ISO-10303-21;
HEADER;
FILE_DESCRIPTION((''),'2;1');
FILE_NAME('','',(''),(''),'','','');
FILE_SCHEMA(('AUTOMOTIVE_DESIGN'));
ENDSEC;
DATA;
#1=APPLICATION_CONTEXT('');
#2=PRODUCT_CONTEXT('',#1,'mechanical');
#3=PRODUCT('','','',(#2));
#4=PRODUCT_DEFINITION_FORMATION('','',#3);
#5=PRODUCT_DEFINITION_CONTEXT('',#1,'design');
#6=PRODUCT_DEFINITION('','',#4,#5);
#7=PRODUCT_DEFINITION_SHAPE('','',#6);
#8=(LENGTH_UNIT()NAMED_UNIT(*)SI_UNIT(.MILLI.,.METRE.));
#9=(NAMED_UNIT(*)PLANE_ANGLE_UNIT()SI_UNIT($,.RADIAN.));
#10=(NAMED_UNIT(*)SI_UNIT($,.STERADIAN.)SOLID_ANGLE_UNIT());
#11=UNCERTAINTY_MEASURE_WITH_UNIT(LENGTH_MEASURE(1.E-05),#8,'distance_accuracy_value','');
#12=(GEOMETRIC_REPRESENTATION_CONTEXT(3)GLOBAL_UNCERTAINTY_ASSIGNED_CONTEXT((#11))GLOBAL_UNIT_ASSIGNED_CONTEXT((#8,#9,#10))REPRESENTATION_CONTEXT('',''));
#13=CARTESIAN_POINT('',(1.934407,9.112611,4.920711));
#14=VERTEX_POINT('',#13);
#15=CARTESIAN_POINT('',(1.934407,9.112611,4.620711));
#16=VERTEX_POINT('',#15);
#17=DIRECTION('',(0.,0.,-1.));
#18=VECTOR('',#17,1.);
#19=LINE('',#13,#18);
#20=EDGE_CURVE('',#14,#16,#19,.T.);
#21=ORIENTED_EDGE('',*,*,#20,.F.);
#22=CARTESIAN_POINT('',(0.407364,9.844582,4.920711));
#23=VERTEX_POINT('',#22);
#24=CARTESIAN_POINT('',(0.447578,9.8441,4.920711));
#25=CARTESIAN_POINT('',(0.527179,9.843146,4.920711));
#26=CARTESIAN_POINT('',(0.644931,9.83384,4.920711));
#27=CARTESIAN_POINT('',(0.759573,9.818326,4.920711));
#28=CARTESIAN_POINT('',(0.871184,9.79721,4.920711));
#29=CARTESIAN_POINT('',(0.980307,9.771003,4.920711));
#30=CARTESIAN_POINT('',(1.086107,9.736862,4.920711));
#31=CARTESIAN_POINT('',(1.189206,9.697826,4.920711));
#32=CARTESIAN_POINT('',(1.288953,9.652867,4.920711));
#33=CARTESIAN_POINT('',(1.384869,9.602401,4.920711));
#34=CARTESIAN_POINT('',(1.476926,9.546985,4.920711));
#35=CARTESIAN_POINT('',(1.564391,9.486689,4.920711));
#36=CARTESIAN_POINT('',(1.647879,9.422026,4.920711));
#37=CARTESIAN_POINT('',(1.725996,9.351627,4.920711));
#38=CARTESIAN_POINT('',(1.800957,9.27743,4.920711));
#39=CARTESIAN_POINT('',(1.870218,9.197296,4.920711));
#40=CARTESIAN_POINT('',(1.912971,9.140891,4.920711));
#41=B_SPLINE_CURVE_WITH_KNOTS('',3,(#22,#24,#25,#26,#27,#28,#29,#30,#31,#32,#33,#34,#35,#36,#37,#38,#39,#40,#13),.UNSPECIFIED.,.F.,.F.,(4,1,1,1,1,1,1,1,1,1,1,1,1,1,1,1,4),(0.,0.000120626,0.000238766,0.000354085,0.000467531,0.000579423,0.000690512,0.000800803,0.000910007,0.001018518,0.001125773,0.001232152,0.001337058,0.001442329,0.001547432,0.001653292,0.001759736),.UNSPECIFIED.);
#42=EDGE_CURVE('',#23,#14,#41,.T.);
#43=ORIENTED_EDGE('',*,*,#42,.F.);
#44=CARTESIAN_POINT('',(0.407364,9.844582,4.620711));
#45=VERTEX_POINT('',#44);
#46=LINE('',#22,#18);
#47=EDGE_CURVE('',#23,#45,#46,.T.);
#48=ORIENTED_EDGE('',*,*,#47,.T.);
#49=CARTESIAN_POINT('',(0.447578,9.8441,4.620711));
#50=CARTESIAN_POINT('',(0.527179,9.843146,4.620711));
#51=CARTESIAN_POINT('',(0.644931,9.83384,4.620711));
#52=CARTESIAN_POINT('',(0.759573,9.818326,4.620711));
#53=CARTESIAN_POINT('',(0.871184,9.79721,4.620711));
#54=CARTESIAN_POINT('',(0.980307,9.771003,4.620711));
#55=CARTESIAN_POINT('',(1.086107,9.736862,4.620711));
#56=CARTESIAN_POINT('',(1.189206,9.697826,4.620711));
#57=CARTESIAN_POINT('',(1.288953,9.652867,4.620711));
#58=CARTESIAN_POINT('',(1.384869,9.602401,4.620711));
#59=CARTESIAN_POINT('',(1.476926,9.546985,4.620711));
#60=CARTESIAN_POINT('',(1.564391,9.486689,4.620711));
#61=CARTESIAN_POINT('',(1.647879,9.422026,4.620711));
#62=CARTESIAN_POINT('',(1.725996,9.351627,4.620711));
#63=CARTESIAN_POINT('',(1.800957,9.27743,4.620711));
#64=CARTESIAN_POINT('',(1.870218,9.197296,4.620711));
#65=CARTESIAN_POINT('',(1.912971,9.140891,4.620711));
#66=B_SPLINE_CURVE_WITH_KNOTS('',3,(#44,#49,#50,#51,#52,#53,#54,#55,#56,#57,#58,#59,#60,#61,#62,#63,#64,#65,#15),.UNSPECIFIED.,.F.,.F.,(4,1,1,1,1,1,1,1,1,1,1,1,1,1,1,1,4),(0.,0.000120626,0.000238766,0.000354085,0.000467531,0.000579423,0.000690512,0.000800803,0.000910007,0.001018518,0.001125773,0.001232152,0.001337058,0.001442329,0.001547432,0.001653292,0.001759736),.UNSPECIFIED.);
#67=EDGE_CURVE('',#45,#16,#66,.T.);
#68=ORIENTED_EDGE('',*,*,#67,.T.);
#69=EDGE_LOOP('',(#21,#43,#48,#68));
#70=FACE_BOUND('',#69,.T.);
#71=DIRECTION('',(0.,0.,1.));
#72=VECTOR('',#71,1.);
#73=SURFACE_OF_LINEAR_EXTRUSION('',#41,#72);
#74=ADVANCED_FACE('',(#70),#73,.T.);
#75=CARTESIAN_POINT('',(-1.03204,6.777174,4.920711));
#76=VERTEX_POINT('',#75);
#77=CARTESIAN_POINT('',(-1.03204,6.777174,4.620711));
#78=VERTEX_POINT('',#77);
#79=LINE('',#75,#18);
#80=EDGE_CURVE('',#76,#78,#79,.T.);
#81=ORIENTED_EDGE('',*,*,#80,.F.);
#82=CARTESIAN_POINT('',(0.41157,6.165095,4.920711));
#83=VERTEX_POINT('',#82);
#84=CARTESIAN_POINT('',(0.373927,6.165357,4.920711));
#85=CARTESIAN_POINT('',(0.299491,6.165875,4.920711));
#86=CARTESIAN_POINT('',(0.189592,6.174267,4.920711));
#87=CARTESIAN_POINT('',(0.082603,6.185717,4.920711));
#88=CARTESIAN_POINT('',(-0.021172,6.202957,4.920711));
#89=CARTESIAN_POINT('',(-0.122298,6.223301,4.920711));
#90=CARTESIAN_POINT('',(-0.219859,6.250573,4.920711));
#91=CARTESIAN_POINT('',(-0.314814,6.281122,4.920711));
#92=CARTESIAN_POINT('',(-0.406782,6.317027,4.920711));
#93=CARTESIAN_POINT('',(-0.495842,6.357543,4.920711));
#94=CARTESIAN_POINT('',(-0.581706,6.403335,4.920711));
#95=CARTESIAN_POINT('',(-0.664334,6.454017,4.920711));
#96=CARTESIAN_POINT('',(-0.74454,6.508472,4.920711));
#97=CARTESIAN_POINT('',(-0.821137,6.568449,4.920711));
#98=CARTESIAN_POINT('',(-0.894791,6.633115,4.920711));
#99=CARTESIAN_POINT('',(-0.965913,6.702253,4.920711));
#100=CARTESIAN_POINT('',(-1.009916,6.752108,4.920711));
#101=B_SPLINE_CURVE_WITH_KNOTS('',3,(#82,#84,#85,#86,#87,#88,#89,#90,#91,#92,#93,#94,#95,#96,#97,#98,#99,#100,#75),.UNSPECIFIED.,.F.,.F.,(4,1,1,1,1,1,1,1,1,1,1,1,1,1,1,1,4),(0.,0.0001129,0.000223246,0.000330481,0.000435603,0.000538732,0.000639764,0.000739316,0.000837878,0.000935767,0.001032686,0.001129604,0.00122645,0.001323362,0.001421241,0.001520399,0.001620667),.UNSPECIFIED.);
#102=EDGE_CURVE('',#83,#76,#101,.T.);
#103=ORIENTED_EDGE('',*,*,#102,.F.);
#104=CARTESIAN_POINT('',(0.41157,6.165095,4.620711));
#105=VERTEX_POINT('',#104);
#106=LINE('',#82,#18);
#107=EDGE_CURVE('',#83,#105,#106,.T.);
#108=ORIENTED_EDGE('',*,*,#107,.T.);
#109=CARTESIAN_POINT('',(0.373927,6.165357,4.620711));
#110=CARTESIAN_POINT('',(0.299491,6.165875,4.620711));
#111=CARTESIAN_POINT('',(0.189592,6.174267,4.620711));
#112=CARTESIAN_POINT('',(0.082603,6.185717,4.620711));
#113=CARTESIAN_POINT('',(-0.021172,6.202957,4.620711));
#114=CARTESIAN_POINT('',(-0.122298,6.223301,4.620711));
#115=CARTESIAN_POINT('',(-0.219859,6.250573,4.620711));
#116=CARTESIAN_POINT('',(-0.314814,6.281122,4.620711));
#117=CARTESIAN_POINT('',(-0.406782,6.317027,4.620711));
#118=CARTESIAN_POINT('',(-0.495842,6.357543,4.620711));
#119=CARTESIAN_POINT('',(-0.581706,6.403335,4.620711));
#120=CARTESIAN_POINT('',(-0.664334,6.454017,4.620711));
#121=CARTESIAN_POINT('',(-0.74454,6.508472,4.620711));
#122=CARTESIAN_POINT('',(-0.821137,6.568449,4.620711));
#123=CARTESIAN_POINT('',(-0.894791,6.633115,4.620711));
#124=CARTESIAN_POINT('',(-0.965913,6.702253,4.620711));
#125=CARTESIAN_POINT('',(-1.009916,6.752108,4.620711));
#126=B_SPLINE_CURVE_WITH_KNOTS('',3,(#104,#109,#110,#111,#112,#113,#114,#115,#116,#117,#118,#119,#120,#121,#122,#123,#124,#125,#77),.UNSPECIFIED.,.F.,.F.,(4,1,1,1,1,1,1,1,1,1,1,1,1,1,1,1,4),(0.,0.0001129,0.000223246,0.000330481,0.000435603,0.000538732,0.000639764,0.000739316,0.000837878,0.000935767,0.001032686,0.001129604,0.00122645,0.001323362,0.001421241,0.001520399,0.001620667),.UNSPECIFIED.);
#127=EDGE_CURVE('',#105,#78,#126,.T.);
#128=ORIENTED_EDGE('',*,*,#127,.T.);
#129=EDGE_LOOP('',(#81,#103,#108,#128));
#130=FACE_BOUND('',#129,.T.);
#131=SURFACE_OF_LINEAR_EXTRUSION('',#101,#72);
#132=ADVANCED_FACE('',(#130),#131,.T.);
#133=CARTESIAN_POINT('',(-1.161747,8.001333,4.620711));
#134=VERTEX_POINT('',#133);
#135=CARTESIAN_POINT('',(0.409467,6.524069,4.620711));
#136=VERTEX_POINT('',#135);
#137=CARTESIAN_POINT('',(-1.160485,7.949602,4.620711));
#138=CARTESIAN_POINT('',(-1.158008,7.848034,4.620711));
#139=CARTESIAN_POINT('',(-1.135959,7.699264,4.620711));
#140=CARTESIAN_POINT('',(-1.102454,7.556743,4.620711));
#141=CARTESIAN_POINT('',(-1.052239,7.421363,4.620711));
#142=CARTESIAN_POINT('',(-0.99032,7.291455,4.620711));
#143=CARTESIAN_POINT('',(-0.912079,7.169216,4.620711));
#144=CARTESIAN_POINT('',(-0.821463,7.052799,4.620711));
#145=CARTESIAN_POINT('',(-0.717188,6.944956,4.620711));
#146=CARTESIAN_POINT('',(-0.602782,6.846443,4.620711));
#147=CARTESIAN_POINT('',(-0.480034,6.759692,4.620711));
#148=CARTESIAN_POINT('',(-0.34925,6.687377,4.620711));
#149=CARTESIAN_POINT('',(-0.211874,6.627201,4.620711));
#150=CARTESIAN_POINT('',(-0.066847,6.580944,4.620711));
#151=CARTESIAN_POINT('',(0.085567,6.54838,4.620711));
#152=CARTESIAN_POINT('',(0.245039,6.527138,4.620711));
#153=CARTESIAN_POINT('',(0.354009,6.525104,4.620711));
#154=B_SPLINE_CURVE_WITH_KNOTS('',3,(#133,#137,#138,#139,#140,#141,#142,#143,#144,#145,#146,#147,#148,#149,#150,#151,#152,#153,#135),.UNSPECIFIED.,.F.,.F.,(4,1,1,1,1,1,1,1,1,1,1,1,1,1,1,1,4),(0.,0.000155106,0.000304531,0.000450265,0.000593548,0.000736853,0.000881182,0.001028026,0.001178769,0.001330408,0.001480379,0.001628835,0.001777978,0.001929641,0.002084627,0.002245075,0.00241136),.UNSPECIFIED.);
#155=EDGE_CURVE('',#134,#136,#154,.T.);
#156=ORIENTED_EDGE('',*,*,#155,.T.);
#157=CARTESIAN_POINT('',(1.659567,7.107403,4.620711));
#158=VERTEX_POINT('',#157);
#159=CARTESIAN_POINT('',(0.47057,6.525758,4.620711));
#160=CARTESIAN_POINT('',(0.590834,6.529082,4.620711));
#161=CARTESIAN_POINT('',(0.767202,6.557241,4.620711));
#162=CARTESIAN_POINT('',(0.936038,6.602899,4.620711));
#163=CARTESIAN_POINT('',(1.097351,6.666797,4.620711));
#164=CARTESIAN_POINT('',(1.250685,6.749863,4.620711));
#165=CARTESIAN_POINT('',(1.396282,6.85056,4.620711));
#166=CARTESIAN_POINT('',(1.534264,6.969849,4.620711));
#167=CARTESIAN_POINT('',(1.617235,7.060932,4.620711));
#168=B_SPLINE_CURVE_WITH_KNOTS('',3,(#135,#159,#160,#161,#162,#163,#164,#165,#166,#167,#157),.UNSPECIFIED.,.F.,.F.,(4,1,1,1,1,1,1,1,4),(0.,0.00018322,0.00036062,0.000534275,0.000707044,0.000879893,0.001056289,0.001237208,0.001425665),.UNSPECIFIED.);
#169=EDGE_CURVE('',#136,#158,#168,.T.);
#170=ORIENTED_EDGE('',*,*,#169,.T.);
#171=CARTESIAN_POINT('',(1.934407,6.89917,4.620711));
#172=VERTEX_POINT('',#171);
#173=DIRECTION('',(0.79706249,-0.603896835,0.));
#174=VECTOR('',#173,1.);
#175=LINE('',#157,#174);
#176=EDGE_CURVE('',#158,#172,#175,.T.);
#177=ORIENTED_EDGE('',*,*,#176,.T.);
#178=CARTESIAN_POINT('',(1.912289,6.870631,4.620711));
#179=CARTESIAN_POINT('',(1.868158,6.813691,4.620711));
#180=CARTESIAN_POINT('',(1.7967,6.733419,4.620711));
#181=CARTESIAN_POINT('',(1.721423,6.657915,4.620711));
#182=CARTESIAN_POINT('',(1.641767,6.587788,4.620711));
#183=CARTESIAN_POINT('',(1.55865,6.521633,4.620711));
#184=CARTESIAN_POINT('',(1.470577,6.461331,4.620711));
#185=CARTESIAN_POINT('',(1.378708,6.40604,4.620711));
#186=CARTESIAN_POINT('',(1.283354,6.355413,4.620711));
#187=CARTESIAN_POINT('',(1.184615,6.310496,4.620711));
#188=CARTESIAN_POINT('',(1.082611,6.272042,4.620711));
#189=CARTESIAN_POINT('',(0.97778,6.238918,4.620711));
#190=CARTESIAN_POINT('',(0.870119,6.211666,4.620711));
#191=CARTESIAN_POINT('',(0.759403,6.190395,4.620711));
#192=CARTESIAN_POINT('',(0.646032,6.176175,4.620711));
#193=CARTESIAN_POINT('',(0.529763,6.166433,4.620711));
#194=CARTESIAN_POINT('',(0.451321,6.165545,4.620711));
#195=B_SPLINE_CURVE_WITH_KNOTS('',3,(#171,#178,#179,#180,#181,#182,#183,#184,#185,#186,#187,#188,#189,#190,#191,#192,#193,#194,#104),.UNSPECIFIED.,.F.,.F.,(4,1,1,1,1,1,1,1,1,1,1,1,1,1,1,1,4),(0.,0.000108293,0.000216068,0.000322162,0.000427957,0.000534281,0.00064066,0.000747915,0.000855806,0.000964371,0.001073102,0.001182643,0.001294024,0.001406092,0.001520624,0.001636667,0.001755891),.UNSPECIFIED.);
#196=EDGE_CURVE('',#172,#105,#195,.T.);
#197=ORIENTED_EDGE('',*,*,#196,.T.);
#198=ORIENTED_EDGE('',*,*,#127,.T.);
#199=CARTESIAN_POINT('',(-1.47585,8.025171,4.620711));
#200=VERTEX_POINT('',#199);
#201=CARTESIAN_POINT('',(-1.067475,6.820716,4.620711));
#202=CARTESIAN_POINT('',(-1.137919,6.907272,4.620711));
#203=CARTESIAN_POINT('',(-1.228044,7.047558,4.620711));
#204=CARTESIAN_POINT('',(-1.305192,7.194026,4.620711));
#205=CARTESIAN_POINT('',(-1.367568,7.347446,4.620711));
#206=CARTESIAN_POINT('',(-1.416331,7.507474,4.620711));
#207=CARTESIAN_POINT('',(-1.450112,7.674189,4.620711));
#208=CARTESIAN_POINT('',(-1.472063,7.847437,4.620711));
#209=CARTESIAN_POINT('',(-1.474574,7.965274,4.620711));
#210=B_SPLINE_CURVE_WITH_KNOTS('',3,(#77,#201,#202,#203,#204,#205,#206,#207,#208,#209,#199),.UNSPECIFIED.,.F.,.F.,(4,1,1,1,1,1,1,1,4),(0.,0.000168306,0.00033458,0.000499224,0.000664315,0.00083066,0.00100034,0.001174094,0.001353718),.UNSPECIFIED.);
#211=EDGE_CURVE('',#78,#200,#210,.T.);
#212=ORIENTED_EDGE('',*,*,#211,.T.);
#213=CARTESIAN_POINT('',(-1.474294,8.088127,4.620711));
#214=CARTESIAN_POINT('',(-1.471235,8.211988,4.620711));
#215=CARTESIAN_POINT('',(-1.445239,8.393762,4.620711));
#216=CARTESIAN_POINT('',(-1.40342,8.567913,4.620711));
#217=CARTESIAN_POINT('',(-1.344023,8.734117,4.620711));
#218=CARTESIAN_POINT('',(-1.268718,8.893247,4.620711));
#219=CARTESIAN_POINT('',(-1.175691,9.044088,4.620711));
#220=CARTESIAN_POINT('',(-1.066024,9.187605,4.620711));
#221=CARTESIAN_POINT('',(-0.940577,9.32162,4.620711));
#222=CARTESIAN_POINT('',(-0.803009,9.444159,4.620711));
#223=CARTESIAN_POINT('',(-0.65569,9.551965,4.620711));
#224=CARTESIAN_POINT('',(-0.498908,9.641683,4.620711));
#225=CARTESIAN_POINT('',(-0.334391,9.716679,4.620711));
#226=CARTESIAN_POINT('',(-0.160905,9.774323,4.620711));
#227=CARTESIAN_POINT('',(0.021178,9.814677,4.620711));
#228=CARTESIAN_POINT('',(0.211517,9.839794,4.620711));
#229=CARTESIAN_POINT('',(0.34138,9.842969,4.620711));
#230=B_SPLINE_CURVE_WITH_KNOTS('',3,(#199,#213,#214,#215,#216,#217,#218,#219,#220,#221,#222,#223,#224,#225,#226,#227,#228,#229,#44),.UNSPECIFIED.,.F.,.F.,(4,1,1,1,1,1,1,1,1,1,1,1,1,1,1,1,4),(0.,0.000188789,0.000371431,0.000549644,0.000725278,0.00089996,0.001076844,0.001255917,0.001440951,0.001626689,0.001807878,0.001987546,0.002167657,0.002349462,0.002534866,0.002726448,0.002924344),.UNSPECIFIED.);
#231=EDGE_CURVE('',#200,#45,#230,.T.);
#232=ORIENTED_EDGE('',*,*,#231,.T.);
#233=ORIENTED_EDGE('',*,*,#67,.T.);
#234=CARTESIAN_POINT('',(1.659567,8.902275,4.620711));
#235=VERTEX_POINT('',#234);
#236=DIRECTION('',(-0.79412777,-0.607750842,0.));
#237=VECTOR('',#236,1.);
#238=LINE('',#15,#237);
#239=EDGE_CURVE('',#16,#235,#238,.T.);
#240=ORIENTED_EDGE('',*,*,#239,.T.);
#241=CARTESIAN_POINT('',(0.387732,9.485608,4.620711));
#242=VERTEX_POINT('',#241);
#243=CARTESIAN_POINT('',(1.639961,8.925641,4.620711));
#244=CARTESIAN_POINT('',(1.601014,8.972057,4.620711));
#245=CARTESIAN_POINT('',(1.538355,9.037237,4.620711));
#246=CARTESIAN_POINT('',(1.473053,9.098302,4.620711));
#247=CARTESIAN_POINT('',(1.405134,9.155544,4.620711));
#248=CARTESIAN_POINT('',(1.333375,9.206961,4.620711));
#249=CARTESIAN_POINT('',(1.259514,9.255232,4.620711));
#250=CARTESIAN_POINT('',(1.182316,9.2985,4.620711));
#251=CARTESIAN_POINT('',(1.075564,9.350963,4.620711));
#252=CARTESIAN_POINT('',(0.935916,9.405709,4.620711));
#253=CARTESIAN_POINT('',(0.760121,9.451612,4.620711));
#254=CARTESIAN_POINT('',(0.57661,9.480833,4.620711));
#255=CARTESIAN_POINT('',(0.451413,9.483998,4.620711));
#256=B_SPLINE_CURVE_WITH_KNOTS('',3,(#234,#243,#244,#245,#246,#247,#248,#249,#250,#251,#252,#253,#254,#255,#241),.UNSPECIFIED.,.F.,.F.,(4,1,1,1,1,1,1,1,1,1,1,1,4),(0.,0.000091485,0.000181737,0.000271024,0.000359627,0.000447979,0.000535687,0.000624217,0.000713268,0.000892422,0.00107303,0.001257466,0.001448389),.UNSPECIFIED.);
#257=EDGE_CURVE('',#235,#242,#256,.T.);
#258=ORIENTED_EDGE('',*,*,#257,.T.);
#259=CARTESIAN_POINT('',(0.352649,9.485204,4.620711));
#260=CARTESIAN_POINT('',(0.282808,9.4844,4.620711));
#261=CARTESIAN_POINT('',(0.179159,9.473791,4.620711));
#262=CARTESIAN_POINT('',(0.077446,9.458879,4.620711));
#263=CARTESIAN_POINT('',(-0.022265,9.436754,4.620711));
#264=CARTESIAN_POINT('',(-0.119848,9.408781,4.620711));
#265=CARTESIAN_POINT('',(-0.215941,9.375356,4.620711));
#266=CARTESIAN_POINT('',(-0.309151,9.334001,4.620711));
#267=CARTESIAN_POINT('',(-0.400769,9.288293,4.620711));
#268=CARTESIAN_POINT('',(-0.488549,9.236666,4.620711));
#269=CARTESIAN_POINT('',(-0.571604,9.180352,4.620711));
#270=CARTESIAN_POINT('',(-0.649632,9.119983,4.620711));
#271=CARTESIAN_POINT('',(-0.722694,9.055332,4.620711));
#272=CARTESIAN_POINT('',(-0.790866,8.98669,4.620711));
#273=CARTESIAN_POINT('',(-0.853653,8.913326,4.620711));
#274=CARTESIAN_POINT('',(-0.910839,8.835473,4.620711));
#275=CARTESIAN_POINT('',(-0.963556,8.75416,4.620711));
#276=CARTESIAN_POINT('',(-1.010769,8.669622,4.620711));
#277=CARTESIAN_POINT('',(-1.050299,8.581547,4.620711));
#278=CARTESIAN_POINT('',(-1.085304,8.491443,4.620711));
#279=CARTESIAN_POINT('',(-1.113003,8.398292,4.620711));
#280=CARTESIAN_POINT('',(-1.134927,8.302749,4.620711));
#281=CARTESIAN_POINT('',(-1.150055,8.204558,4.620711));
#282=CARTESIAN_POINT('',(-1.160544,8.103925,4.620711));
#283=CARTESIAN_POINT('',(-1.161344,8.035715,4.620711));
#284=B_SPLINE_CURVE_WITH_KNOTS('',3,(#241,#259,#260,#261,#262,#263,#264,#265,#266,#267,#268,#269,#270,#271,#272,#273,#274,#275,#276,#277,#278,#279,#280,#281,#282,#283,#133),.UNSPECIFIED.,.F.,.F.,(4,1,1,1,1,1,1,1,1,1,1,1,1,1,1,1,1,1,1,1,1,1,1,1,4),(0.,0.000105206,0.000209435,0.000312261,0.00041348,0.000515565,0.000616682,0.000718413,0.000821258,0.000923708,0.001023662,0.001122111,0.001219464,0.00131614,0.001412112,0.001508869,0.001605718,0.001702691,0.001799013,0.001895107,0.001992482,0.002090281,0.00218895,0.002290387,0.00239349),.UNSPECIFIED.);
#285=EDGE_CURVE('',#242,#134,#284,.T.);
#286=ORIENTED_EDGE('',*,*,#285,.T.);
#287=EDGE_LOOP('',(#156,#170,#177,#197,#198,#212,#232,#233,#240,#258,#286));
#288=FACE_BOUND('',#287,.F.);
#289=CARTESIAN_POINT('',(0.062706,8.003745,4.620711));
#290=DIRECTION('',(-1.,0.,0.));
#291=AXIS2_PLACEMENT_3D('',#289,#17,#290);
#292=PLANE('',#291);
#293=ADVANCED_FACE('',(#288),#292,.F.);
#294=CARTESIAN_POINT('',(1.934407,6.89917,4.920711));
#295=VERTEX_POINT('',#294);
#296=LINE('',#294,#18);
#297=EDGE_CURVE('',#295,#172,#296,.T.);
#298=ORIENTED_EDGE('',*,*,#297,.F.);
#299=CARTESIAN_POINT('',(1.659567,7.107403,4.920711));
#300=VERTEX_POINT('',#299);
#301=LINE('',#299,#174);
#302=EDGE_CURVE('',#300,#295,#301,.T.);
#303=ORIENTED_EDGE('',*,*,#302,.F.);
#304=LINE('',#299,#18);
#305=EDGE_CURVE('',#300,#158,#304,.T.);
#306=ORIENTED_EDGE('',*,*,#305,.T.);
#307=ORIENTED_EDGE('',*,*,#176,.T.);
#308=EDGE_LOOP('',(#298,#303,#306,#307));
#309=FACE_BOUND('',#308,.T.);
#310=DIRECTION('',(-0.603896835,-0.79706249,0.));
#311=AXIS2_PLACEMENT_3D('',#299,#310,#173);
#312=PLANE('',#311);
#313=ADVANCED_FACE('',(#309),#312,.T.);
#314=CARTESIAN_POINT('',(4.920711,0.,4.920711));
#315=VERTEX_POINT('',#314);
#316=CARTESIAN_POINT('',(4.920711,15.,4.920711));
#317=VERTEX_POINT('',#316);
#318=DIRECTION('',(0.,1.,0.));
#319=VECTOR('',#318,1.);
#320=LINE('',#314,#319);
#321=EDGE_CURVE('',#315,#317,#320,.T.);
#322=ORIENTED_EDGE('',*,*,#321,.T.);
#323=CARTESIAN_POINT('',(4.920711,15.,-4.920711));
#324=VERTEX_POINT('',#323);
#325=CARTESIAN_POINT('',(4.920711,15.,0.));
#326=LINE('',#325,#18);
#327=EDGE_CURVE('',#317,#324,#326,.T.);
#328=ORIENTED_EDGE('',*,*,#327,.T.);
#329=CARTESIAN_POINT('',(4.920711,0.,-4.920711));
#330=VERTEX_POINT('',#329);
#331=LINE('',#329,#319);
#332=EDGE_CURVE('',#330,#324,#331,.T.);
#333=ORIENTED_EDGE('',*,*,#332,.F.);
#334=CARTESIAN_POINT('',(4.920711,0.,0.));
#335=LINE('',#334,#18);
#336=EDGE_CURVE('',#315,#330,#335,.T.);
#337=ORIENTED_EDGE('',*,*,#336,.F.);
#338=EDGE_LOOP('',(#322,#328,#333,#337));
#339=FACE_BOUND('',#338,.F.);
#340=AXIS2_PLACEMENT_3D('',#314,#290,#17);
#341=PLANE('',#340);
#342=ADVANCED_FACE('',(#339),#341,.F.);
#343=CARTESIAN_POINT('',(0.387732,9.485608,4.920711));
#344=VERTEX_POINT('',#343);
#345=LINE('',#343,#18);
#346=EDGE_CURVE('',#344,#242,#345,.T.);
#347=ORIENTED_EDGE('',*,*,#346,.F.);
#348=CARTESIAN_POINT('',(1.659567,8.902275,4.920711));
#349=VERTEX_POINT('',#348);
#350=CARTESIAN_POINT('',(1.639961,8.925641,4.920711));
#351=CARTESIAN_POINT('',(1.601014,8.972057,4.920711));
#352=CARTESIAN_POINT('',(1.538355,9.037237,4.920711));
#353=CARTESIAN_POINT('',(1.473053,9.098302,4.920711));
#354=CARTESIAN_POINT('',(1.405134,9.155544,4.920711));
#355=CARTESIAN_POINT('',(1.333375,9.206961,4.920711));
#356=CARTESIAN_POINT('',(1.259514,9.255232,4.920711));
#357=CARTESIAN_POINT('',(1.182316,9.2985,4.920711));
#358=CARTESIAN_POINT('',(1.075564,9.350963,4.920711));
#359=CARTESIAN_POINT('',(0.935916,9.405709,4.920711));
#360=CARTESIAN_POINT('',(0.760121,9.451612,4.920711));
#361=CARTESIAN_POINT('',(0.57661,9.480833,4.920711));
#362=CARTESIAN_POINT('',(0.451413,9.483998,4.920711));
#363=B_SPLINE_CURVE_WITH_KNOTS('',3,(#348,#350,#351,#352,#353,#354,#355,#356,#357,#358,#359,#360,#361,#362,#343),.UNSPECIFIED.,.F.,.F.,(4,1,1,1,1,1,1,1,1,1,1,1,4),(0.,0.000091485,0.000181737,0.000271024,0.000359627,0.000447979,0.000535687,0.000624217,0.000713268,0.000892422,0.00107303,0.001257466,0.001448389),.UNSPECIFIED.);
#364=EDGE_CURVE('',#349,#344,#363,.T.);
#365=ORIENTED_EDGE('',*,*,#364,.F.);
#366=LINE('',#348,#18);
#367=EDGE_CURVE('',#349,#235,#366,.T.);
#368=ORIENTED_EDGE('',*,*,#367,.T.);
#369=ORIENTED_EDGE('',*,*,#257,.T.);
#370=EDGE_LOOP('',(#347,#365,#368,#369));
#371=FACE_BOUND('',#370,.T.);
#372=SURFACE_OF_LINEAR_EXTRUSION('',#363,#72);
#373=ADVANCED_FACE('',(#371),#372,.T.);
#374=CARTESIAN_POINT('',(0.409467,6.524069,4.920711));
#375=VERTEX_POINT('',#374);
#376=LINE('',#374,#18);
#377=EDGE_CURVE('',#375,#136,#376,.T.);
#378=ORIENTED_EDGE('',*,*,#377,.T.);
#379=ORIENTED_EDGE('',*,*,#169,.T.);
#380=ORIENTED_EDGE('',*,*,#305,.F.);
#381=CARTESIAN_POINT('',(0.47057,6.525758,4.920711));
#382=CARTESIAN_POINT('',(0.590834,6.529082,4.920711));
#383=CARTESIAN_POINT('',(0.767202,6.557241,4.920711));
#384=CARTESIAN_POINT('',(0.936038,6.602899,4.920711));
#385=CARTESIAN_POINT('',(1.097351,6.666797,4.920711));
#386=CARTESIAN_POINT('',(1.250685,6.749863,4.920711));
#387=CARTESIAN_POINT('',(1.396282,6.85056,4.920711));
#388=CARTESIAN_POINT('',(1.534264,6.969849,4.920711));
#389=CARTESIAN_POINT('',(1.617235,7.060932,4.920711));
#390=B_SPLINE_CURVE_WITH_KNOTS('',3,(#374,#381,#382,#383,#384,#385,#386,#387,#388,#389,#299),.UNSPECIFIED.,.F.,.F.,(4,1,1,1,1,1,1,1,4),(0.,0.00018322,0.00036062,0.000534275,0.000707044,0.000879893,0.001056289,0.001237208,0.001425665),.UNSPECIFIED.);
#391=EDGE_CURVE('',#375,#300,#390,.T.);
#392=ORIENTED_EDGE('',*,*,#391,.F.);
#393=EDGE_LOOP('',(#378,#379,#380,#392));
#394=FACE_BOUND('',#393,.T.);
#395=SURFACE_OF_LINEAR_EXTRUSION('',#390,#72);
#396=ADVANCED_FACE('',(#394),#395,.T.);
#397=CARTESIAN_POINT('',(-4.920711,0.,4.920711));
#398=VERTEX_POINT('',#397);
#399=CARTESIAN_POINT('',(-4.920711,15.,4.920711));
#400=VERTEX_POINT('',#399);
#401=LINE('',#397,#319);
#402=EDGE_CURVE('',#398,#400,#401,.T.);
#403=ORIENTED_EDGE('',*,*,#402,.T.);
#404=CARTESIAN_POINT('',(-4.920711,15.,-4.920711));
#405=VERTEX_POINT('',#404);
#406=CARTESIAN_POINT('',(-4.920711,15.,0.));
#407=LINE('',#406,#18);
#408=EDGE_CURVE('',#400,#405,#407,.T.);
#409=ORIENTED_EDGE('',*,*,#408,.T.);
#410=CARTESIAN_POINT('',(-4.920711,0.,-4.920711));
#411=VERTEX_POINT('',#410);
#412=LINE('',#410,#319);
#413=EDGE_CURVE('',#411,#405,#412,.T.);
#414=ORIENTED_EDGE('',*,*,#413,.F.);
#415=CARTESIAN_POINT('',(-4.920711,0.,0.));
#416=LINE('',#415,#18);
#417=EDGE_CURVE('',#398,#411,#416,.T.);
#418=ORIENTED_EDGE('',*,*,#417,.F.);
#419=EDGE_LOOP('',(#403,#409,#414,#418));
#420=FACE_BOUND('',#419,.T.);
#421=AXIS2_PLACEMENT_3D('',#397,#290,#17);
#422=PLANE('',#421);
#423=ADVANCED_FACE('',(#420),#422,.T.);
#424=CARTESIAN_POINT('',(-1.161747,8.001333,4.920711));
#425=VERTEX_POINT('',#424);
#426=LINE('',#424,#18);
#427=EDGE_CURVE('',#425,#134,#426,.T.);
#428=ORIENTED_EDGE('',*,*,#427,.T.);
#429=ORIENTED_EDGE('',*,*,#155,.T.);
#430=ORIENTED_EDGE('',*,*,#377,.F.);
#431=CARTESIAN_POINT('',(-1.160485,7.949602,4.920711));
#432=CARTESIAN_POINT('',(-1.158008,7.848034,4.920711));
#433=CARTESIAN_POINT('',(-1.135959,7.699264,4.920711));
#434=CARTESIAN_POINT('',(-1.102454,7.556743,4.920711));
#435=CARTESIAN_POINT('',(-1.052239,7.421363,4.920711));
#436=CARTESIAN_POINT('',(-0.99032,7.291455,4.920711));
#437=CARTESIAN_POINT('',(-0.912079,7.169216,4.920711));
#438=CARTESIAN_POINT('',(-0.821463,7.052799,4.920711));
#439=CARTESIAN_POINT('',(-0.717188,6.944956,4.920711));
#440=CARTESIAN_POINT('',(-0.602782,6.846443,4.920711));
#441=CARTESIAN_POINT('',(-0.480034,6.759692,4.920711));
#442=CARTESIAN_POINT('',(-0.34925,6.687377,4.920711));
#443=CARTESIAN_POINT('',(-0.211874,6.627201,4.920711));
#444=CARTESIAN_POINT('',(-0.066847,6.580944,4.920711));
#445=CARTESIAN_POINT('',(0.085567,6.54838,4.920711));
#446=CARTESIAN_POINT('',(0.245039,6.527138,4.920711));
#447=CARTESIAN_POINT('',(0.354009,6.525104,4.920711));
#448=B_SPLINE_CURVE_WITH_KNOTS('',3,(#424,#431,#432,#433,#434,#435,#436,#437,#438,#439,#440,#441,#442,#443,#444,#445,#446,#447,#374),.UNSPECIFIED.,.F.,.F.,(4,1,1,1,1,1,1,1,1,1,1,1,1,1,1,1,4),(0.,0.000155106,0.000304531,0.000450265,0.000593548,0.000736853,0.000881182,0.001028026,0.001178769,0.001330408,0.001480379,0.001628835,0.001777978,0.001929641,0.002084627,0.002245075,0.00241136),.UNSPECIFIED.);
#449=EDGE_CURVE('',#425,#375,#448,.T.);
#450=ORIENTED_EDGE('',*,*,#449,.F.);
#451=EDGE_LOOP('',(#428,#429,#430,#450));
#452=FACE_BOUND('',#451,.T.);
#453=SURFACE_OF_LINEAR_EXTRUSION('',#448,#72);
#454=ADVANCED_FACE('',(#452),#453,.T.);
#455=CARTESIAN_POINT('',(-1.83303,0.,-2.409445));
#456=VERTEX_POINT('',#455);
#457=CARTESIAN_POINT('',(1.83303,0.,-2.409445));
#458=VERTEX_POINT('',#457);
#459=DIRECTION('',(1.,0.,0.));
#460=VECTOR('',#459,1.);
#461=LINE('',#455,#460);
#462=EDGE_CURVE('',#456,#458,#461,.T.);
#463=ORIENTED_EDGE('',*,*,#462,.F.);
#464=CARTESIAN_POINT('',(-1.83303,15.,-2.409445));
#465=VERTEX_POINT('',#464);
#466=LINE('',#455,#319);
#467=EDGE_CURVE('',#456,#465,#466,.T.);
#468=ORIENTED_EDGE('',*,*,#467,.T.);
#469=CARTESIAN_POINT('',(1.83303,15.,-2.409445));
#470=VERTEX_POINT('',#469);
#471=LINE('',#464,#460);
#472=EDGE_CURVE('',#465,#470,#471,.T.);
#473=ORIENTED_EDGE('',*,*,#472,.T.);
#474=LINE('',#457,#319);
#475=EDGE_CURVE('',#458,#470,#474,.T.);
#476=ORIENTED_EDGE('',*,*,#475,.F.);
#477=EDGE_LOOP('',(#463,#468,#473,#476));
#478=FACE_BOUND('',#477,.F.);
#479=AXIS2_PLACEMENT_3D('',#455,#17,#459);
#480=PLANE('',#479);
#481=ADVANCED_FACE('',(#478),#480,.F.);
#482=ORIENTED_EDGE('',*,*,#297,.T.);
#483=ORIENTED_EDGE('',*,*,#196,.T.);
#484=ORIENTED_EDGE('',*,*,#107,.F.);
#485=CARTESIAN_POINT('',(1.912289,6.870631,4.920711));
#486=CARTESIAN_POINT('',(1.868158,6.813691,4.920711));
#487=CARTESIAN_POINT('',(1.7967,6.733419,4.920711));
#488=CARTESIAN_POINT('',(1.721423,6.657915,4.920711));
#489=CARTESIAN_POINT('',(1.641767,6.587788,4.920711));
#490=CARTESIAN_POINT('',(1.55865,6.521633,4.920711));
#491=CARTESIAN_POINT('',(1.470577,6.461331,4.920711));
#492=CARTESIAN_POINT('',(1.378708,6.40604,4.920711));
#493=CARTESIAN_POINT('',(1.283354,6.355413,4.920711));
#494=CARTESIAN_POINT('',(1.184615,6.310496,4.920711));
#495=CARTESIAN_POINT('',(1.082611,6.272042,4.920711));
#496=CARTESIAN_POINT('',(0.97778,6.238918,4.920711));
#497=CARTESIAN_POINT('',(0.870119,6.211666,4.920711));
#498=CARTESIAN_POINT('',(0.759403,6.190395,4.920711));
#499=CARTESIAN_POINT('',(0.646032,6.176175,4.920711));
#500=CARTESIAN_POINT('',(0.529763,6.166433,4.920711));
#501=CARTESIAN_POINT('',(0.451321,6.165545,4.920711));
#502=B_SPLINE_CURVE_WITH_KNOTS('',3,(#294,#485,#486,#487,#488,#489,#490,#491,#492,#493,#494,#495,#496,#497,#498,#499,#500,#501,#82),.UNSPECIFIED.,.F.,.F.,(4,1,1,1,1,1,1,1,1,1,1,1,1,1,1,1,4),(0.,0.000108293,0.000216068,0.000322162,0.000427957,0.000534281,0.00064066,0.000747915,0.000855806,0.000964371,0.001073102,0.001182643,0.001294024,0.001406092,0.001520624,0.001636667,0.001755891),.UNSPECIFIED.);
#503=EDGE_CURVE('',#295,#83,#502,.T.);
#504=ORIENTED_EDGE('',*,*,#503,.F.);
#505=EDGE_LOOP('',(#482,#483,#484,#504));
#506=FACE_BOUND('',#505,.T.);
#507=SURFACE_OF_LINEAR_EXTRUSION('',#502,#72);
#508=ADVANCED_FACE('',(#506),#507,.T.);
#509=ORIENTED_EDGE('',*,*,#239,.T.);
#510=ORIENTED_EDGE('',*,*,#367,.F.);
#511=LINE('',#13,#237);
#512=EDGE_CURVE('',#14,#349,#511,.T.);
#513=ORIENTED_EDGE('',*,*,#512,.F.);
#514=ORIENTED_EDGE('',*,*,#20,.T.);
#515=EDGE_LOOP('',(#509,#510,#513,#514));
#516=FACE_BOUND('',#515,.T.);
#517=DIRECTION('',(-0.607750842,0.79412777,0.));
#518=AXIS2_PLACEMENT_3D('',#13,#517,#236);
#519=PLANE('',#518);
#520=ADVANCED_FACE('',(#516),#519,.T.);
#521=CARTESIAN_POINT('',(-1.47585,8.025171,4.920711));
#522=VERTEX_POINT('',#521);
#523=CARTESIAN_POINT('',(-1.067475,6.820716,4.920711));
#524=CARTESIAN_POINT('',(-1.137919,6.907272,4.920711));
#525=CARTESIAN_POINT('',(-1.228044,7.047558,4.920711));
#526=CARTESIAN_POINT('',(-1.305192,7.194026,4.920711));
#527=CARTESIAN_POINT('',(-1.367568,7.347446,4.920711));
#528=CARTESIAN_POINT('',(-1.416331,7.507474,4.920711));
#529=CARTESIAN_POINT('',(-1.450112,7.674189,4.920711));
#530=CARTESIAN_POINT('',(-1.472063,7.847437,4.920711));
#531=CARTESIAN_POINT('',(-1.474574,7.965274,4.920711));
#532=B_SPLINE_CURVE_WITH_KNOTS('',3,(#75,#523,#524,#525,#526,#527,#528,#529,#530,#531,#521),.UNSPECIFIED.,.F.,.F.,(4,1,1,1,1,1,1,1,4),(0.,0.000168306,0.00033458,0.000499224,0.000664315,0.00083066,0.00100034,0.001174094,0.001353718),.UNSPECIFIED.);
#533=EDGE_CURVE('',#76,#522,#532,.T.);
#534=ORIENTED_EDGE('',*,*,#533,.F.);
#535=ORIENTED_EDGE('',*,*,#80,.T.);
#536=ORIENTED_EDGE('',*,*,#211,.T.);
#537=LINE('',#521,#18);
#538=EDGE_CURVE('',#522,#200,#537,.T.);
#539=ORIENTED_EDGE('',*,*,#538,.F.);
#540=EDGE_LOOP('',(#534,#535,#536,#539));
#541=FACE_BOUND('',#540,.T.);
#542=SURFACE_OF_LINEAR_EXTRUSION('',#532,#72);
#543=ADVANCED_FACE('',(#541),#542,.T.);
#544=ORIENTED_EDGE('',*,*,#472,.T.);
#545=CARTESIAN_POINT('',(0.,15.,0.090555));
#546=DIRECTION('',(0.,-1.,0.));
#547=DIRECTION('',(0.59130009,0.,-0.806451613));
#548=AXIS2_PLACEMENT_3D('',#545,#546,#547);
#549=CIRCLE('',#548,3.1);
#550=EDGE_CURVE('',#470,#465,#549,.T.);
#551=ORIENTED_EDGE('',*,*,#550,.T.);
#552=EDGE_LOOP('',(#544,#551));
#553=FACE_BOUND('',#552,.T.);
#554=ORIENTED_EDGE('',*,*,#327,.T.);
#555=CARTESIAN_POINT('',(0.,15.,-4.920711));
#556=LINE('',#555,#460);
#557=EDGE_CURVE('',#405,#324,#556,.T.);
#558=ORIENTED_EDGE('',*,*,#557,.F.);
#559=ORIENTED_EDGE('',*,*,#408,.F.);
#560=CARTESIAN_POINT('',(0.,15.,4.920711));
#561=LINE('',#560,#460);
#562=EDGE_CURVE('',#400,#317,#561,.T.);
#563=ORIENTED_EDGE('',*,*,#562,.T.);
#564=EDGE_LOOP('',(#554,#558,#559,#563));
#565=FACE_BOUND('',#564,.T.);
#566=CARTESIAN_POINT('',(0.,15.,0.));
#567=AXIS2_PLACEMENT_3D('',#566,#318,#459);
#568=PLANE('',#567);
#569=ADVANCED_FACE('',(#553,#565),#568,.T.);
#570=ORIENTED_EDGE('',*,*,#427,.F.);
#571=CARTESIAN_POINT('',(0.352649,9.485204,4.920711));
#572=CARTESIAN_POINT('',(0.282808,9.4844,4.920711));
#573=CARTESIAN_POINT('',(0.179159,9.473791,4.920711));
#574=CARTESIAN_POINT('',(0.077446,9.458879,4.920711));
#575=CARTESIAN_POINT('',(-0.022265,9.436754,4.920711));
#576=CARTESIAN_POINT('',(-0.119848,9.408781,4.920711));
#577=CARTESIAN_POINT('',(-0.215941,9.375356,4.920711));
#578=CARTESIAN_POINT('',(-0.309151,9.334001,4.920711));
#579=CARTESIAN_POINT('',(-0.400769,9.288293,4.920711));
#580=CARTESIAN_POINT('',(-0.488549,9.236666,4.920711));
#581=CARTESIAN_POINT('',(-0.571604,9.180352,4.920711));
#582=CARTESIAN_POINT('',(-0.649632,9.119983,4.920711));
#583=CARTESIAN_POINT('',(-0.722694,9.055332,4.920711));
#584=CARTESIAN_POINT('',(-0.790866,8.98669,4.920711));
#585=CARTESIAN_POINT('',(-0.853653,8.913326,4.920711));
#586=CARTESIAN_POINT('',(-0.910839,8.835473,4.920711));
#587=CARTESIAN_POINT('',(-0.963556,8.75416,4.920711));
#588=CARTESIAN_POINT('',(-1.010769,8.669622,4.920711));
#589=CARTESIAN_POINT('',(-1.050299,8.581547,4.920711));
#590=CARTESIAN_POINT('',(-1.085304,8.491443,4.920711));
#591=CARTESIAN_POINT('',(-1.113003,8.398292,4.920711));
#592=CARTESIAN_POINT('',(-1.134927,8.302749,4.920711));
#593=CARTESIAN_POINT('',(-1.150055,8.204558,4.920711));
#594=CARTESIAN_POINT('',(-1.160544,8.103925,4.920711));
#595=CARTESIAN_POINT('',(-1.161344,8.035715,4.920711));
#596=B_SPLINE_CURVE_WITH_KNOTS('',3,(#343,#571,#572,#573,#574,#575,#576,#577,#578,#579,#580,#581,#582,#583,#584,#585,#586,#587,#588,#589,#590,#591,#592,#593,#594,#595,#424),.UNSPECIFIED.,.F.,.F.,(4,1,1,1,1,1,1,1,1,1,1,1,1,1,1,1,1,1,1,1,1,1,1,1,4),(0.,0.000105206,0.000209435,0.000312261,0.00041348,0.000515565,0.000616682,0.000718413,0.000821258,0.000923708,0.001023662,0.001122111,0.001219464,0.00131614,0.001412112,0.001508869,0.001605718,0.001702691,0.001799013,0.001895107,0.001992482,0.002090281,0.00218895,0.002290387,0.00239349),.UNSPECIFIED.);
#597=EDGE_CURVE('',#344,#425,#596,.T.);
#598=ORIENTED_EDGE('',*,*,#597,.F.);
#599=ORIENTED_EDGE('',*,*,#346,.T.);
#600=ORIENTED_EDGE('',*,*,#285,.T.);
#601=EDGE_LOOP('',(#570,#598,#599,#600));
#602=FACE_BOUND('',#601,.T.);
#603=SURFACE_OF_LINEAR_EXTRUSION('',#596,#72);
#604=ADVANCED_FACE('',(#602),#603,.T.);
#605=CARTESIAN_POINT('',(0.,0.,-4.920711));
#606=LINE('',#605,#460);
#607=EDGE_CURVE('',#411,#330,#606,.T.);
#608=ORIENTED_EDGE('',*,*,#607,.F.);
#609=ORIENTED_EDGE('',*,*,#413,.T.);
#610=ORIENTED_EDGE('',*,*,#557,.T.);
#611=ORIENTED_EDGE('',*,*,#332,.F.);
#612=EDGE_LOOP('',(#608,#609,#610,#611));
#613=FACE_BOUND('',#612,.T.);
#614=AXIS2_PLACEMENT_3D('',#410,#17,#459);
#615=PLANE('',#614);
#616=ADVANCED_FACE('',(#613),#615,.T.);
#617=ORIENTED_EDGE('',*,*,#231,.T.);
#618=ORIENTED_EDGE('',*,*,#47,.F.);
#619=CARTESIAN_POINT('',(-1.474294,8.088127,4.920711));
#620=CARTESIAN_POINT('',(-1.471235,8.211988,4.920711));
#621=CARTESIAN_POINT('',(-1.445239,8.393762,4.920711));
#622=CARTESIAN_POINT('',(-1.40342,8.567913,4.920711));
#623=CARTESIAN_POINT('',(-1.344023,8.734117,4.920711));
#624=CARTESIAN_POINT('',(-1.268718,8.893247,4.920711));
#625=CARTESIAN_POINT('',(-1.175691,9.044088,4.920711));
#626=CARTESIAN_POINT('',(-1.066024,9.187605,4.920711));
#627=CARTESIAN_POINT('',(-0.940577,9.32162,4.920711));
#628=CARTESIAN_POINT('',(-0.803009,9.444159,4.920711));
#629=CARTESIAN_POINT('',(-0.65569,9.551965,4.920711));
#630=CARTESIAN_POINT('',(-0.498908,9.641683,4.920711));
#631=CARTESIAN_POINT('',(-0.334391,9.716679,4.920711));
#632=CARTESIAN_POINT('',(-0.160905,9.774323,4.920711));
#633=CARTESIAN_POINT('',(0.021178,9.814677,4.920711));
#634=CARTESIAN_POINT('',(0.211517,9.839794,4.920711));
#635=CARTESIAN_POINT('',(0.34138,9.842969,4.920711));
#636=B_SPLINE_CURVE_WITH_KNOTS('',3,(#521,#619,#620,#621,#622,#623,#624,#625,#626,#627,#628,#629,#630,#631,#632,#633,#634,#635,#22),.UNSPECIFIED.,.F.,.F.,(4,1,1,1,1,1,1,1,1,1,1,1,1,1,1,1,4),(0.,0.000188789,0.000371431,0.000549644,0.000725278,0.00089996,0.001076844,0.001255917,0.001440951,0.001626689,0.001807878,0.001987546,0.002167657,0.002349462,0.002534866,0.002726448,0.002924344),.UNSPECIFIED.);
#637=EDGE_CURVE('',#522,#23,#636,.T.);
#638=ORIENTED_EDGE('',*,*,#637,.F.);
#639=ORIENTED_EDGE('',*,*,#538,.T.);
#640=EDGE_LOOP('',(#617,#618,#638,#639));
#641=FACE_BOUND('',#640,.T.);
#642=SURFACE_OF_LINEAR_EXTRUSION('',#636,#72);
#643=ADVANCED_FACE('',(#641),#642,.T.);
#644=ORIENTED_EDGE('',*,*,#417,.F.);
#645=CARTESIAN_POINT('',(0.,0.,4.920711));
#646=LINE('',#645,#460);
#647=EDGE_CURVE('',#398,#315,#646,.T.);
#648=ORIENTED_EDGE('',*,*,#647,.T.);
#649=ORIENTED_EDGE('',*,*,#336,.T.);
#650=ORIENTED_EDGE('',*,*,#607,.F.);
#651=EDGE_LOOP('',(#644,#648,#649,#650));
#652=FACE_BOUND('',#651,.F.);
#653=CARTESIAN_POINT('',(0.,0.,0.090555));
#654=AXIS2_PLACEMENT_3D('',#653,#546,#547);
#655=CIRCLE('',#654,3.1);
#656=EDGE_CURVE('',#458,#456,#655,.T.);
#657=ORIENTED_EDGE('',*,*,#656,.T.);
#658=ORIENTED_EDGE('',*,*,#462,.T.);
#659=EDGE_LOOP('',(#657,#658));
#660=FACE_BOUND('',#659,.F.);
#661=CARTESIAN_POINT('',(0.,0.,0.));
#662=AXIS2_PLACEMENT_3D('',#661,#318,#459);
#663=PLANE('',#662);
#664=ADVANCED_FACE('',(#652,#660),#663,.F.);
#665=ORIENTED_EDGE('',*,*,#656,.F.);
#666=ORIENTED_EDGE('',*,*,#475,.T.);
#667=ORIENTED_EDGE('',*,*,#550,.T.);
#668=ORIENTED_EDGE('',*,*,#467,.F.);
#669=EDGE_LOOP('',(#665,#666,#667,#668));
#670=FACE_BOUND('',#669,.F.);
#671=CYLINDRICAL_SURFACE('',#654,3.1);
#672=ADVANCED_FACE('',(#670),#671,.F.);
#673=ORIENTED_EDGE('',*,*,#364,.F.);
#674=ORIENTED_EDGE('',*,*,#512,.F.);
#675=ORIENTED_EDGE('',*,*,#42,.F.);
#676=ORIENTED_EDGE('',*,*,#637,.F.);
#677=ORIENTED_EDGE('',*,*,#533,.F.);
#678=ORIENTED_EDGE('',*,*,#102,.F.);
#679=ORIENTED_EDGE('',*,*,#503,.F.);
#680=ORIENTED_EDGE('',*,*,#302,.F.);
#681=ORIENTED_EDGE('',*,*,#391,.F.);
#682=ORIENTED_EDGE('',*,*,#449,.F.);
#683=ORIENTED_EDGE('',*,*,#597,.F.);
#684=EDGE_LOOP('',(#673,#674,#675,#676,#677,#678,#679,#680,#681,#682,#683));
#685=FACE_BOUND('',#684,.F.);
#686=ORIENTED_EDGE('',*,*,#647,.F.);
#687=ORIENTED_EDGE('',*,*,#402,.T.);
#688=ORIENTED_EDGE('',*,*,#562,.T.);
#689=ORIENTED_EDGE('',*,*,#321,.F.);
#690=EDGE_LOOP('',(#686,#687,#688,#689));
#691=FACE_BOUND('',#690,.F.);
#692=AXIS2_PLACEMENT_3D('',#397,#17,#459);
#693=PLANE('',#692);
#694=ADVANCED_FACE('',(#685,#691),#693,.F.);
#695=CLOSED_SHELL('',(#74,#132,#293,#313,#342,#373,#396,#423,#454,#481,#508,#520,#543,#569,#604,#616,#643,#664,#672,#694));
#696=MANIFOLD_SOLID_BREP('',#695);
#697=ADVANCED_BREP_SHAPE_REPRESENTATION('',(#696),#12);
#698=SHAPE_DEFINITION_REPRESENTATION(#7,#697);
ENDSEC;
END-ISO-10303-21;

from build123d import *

# Parameters (mm, degrees)
SKETCH1_W           = 9.84142284
SKETCH1_H           = 9.84142284
BOSS_EXTRUDE1_DEPTH = 15
CUT_EXTRUDE1_DEPTH  = 0.3


with BuildPart() as part:
    # Sketch1 → Boss-Extrude1 (new body)
    with BuildSketch(Plane(origin=(0, 0, 0), x_dir=(1, 0, 0), z_dir=(0, 1, 0))):
        Rectangle(SKETCH1_W, SKETCH1_H)
        with BuildLine():
            Line((-1.833030278, 2.409444822), (1.833030278, 2.409444822))
            ThreePointArc((1.833030278, 2.409444822), (0, -3.190555178), (-1.833030278, 2.409444822))
        make_face(mode=Mode.SUBTRACT)
    extrude(amount=BOSS_EXTRUDE1_DEPTH)

    # Sketch2 → Cut-Extrude1 (cut)
    with BuildSketch(Plane.XY.offset(4.92071142)):
        with BuildLine():
            Line((1.934406803, 9.11261109), (1.659567059, 8.902274552))
            add(Edge.make_bspline(
                [(1.659567059, 8.902274552), (1.639961171, 8.925640522), (1.601013724, 8.972057437), (1.538354521, 9.037236982), (1.473052878, 9.098302243), (1.405133757, 9.155544123), (1.333374638, 9.206960889), (1.259513839, 9.255231992), (1.182315794, 9.29849973), (1.075564059, 9.350962716), (0.935916211, 9.405708871), (0.760121372, 9.451612102), (0.576610273, 9.480833278), (0.451412674, 9.483998119), (0.387732123, 9.485607885)],
                knots=[0, 0, 0, 0, 9.1485e-05, 0.000181737, 0.000271024, 0.000359627, 0.000447979, 0.000535687, 0.000624217, 0.000713268, 0.000892422, 0.00107303, 0.001257466, 0.001448389, 0.001448389, 0.001448389, 0.001448389], degree=3))
            add(Edge.make_bspline(
                [(0.387732123, 9.485607885), (0.352648824, 9.485203923), (0.282807831, 9.484399747), (0.179159358, 9.473790622), (0.077446307, 9.458879412), (-0.02226516, 9.436754088), (-0.119848118, 9.408781469), (-0.21594052, 9.375356055), (-0.30915112, 9.334001215), (-0.400769358, 9.288292956), (-0.488548569, 9.236665511), (-0.571603617, 9.180352159), (-0.649631585, 9.119983062), (-0.722694197, 9.055331956), (-0.790866145, 8.986689996), (-0.853653456, 8.913325654), (-0.910838867, 8.83547348), (-0.963555892, 8.754160073), (-1.010768625, 8.669622281), (-1.050298504, 8.581547211), (-1.085303627, 8.491443108), (-1.113002869, 8.398291947), (-1.134927386, 8.302749181), (-1.150055049, 8.204558393), (-1.160543521, 8.103924714), (-1.161343697, 8.035715401), (-1.161747044, 8.001333045)],
                knots=[0, 0, 0, 0, 0.000105206, 0.000209435, 0.000312261, 0.00041348, 0.000515565, 0.000616682, 0.000718413, 0.000821258, 0.000923708, 0.001023662, 0.001122111, 0.001219464, 0.00131614, 0.001412112, 0.001508869, 0.001605718, 0.001702691, 0.001799013, 0.001895107, 0.001992482, 0.002090281, 0.00218895, 0.002290387, 0.00239349, 0.00239349, 0.00239349, 0.00239349], degree=3))
            add(Edge.make_bspline(
                [(-1.161747044, 8.001333045), (-1.160485225, 7.949601726), (-1.15800781, 7.848034141), (-1.135959476, 7.69926353), (-1.102454385, 7.556742856), (-1.052238808, 7.421363014), (-0.990319757, 7.291454656), (-0.912079146, 7.169215803), (-0.821462609, 7.052799238), (-0.717188189, 6.94495629), (-0.602782373, 6.846442565), (-0.480034462, 6.759691983), (-0.349250174, 6.687377101), (-0.211873544, 6.627201155), (-0.06684743, 6.580944427), (0.085567373, 6.548380303), (0.245039368, 6.527138123), (0.354008768, 6.525104435), (0.409466899, 6.524069424)],
                knots=[0, 0, 0, 0, 0.000155106, 0.000304531, 0.000450265, 0.000593548, 0.000736853, 0.000881182, 0.001028026, 0.001178769, 0.001330408, 0.001480379, 0.001628835, 0.001777978, 0.001929641, 0.002084627, 0.002245075, 0.00241136, 0.00241136, 0.00241136, 0.00241136], degree=3))
            add(Edge.make_bspline(
                [(0.409466899, 6.524069424), (0.470569588, 6.525758203), (0.590834297, 6.529082126), (0.767202323, 6.557241375), (0.936038089, 6.602899293), (1.097350675, 6.666797215), (1.250685321, 6.749862503), (1.396281982, 6.850560381), (1.534263552, 6.969848713), (1.617234834, 7.060931842), (1.659567059, 7.107402757)],
                knots=[0, 0, 0, 0, 0.00018322, 0.00036062, 0.000534275, 0.000707044, 0.000879893, 0.001056289, 0.001237208, 0.001425665, 0.001425665, 0.001425665, 0.001425665], degree=3))
            Line((1.659567059, 7.107402757), (1.934406803, 6.899169584))
            add(Edge.make_bspline(
                [(1.934406803, 6.899169584), (1.912288693, 6.870631132), (1.868158417, 6.813690926), (1.7967004, 6.733419216), (1.721423103, 6.65791518), (1.641767393, 6.587787559), (1.558649601, 6.521633094), (1.470577289, 6.461331262), (1.378708257, 6.406040378), (1.283353778, 6.355413454), (1.184615165, 6.310496207), (1.08261073, 6.272042439), (0.977780154, 6.238917549), (0.870118646, 6.211665612), (0.759402889, 6.190394529), (0.646032415, 6.176174854), (0.52976254, 6.166432939), (0.451321119, 6.165545024), (0.411570264, 6.165095065)],
                knots=[0, 0, 0, 0, 0.000108293, 0.000216068, 0.000322162, 0.000427957, 0.000534281, 0.00064066, 0.000747915, 0.000855806, 0.000964371, 0.001073102, 0.001182643, 0.001294024, 0.001406092, 0.001520624, 0.001636667, 0.001755891, 0.001755891, 0.001755891, 0.001755891], degree=3))
            add(Edge.make_bspline(
                [(0.411570264, 6.165095065), (0.373926597, 6.165357057), (0.299490907, 6.165875115), (0.189592155, 6.174267282), (0.082602575, 6.185717019), (-0.021172051, 6.20295715), (-0.122298026, 6.22330149), (-0.219858611, 6.250572747), (-0.314813821, 6.281121914), (-0.406782162, 6.3170269), (-0.495841862, 6.357543083), (-0.581705673, 6.403334642), (-0.664334105, 6.454016507), (-0.744539526, 6.508471517), (-0.82113711, 6.568448819), (-0.894790635, 6.633115453), (-0.965913112, 6.702253464), (-1.009915797, 6.752108317), (-1.032039512, 6.777174392)],
                knots=[0, 0, 0, 0, 0.0001129, 0.000223246, 0.000330481, 0.000435603, 0.000538732, 0.000639764, 0.000739316, 0.000837878, 0.000935767, 0.001032686, 0.001129604, 0.00122645, 0.001323362, 0.001421241, 0.001520399, 0.001620667, 0.001620667, 0.001620667, 0.001620667], degree=3))
            add(Edge.make_bspline(
                [(-1.032039512, 6.777174392), (-1.067475155, 6.82071558), (-1.137918632, 6.907272291), (-1.228044315, 7.047558272), (-1.305191871, 7.194026481), (-1.367567791, 7.34744641), (-1.416330525, 7.507473797), (-1.45011172, 7.674189311), (-1.472063324, 7.847437254), (-1.474573613, 7.965274042), (-1.475849608, 8.025171186)],
                knots=[0, 0, 0, 0, 0.000168306, 0.00033458, 0.000499224, 0.000664315, 0.00083066, 0.00100034, 0.001174094, 0.001353718, 0.001353718, 0.001353718, 0.001353718], degree=3))
            add(Edge.make_bspline(
                [(-1.475849608, 8.025171186), (-1.474294414, 8.08812664), (-1.471234668, 8.211987565), (-1.445238872, 8.393761518), (-1.403420076, 8.567912917), (-1.344023188, 8.734116661), (-1.268717836, 8.893246942), (-1.175691223, 9.044088146), (-1.06602408, 9.187604946), (-0.940576513, 9.321619697), (-0.803009177, 9.44415905), (-0.655690363, 9.551965254), (-0.498908416, 9.64168277), (-0.334390565, 9.716678932), (-0.160904883, 9.774323395), (0.021178486, 9.814676582), (0.211517401, 9.839793698), (0.341379826, 9.842968906), (0.407363533, 9.844582244)],
                knots=[0, 0, 0, 0, 0.000188789, 0.000371431, 0.000549644, 0.000725278, 0.00089996, 0.001076844, 0.001255917, 0.001440951, 0.001626689, 0.001807878, 0.001987546, 0.002167657, 0.002349462, 0.002534866, 0.002726448, 0.002924344, 0.002924344, 0.002924344, 0.002924344], degree=3))
            add(Edge.make_bspline(
                [(0.407363533, 9.844582244), (0.447578005, 9.844100106), (0.527178503, 9.843145762), (0.644931155, 9.83383962), (0.759573482, 9.818326014), (0.871184464, 9.797209944), (0.98030708, 9.771002622), (1.086107321, 9.736862324), (1.189206008, 9.697825793), (1.288952916, 9.652867327), (1.384869466, 9.602400585), (1.476925785, 9.546984962), (1.564390643, 9.486689156), (1.647879492, 9.422025981), (1.725995703, 9.351627422), (1.800957181, 9.277429826), (1.87021826, 9.197296001), (1.912971455, 9.140891068), (1.934406803, 9.11261109)],
                knots=[0, 0, 0, 0, 0.000120626, 0.000238766, 0.000354085, 0.000467531, 0.000579423, 0.000690512, 0.000800803, 0.000910007, 0.001018518, 0.001125773, 0.001232152, 0.001337058, 0.001442329, 0.001547432, 0.001653292, 0.001759736, 0.001759736, 0.001759736, 0.001759736], degree=3))
        make_face()
    extrude(amount=-CUT_EXTRUDE1_DEPTH, mode=Mode.SUBTRACT)


solid = part.part
